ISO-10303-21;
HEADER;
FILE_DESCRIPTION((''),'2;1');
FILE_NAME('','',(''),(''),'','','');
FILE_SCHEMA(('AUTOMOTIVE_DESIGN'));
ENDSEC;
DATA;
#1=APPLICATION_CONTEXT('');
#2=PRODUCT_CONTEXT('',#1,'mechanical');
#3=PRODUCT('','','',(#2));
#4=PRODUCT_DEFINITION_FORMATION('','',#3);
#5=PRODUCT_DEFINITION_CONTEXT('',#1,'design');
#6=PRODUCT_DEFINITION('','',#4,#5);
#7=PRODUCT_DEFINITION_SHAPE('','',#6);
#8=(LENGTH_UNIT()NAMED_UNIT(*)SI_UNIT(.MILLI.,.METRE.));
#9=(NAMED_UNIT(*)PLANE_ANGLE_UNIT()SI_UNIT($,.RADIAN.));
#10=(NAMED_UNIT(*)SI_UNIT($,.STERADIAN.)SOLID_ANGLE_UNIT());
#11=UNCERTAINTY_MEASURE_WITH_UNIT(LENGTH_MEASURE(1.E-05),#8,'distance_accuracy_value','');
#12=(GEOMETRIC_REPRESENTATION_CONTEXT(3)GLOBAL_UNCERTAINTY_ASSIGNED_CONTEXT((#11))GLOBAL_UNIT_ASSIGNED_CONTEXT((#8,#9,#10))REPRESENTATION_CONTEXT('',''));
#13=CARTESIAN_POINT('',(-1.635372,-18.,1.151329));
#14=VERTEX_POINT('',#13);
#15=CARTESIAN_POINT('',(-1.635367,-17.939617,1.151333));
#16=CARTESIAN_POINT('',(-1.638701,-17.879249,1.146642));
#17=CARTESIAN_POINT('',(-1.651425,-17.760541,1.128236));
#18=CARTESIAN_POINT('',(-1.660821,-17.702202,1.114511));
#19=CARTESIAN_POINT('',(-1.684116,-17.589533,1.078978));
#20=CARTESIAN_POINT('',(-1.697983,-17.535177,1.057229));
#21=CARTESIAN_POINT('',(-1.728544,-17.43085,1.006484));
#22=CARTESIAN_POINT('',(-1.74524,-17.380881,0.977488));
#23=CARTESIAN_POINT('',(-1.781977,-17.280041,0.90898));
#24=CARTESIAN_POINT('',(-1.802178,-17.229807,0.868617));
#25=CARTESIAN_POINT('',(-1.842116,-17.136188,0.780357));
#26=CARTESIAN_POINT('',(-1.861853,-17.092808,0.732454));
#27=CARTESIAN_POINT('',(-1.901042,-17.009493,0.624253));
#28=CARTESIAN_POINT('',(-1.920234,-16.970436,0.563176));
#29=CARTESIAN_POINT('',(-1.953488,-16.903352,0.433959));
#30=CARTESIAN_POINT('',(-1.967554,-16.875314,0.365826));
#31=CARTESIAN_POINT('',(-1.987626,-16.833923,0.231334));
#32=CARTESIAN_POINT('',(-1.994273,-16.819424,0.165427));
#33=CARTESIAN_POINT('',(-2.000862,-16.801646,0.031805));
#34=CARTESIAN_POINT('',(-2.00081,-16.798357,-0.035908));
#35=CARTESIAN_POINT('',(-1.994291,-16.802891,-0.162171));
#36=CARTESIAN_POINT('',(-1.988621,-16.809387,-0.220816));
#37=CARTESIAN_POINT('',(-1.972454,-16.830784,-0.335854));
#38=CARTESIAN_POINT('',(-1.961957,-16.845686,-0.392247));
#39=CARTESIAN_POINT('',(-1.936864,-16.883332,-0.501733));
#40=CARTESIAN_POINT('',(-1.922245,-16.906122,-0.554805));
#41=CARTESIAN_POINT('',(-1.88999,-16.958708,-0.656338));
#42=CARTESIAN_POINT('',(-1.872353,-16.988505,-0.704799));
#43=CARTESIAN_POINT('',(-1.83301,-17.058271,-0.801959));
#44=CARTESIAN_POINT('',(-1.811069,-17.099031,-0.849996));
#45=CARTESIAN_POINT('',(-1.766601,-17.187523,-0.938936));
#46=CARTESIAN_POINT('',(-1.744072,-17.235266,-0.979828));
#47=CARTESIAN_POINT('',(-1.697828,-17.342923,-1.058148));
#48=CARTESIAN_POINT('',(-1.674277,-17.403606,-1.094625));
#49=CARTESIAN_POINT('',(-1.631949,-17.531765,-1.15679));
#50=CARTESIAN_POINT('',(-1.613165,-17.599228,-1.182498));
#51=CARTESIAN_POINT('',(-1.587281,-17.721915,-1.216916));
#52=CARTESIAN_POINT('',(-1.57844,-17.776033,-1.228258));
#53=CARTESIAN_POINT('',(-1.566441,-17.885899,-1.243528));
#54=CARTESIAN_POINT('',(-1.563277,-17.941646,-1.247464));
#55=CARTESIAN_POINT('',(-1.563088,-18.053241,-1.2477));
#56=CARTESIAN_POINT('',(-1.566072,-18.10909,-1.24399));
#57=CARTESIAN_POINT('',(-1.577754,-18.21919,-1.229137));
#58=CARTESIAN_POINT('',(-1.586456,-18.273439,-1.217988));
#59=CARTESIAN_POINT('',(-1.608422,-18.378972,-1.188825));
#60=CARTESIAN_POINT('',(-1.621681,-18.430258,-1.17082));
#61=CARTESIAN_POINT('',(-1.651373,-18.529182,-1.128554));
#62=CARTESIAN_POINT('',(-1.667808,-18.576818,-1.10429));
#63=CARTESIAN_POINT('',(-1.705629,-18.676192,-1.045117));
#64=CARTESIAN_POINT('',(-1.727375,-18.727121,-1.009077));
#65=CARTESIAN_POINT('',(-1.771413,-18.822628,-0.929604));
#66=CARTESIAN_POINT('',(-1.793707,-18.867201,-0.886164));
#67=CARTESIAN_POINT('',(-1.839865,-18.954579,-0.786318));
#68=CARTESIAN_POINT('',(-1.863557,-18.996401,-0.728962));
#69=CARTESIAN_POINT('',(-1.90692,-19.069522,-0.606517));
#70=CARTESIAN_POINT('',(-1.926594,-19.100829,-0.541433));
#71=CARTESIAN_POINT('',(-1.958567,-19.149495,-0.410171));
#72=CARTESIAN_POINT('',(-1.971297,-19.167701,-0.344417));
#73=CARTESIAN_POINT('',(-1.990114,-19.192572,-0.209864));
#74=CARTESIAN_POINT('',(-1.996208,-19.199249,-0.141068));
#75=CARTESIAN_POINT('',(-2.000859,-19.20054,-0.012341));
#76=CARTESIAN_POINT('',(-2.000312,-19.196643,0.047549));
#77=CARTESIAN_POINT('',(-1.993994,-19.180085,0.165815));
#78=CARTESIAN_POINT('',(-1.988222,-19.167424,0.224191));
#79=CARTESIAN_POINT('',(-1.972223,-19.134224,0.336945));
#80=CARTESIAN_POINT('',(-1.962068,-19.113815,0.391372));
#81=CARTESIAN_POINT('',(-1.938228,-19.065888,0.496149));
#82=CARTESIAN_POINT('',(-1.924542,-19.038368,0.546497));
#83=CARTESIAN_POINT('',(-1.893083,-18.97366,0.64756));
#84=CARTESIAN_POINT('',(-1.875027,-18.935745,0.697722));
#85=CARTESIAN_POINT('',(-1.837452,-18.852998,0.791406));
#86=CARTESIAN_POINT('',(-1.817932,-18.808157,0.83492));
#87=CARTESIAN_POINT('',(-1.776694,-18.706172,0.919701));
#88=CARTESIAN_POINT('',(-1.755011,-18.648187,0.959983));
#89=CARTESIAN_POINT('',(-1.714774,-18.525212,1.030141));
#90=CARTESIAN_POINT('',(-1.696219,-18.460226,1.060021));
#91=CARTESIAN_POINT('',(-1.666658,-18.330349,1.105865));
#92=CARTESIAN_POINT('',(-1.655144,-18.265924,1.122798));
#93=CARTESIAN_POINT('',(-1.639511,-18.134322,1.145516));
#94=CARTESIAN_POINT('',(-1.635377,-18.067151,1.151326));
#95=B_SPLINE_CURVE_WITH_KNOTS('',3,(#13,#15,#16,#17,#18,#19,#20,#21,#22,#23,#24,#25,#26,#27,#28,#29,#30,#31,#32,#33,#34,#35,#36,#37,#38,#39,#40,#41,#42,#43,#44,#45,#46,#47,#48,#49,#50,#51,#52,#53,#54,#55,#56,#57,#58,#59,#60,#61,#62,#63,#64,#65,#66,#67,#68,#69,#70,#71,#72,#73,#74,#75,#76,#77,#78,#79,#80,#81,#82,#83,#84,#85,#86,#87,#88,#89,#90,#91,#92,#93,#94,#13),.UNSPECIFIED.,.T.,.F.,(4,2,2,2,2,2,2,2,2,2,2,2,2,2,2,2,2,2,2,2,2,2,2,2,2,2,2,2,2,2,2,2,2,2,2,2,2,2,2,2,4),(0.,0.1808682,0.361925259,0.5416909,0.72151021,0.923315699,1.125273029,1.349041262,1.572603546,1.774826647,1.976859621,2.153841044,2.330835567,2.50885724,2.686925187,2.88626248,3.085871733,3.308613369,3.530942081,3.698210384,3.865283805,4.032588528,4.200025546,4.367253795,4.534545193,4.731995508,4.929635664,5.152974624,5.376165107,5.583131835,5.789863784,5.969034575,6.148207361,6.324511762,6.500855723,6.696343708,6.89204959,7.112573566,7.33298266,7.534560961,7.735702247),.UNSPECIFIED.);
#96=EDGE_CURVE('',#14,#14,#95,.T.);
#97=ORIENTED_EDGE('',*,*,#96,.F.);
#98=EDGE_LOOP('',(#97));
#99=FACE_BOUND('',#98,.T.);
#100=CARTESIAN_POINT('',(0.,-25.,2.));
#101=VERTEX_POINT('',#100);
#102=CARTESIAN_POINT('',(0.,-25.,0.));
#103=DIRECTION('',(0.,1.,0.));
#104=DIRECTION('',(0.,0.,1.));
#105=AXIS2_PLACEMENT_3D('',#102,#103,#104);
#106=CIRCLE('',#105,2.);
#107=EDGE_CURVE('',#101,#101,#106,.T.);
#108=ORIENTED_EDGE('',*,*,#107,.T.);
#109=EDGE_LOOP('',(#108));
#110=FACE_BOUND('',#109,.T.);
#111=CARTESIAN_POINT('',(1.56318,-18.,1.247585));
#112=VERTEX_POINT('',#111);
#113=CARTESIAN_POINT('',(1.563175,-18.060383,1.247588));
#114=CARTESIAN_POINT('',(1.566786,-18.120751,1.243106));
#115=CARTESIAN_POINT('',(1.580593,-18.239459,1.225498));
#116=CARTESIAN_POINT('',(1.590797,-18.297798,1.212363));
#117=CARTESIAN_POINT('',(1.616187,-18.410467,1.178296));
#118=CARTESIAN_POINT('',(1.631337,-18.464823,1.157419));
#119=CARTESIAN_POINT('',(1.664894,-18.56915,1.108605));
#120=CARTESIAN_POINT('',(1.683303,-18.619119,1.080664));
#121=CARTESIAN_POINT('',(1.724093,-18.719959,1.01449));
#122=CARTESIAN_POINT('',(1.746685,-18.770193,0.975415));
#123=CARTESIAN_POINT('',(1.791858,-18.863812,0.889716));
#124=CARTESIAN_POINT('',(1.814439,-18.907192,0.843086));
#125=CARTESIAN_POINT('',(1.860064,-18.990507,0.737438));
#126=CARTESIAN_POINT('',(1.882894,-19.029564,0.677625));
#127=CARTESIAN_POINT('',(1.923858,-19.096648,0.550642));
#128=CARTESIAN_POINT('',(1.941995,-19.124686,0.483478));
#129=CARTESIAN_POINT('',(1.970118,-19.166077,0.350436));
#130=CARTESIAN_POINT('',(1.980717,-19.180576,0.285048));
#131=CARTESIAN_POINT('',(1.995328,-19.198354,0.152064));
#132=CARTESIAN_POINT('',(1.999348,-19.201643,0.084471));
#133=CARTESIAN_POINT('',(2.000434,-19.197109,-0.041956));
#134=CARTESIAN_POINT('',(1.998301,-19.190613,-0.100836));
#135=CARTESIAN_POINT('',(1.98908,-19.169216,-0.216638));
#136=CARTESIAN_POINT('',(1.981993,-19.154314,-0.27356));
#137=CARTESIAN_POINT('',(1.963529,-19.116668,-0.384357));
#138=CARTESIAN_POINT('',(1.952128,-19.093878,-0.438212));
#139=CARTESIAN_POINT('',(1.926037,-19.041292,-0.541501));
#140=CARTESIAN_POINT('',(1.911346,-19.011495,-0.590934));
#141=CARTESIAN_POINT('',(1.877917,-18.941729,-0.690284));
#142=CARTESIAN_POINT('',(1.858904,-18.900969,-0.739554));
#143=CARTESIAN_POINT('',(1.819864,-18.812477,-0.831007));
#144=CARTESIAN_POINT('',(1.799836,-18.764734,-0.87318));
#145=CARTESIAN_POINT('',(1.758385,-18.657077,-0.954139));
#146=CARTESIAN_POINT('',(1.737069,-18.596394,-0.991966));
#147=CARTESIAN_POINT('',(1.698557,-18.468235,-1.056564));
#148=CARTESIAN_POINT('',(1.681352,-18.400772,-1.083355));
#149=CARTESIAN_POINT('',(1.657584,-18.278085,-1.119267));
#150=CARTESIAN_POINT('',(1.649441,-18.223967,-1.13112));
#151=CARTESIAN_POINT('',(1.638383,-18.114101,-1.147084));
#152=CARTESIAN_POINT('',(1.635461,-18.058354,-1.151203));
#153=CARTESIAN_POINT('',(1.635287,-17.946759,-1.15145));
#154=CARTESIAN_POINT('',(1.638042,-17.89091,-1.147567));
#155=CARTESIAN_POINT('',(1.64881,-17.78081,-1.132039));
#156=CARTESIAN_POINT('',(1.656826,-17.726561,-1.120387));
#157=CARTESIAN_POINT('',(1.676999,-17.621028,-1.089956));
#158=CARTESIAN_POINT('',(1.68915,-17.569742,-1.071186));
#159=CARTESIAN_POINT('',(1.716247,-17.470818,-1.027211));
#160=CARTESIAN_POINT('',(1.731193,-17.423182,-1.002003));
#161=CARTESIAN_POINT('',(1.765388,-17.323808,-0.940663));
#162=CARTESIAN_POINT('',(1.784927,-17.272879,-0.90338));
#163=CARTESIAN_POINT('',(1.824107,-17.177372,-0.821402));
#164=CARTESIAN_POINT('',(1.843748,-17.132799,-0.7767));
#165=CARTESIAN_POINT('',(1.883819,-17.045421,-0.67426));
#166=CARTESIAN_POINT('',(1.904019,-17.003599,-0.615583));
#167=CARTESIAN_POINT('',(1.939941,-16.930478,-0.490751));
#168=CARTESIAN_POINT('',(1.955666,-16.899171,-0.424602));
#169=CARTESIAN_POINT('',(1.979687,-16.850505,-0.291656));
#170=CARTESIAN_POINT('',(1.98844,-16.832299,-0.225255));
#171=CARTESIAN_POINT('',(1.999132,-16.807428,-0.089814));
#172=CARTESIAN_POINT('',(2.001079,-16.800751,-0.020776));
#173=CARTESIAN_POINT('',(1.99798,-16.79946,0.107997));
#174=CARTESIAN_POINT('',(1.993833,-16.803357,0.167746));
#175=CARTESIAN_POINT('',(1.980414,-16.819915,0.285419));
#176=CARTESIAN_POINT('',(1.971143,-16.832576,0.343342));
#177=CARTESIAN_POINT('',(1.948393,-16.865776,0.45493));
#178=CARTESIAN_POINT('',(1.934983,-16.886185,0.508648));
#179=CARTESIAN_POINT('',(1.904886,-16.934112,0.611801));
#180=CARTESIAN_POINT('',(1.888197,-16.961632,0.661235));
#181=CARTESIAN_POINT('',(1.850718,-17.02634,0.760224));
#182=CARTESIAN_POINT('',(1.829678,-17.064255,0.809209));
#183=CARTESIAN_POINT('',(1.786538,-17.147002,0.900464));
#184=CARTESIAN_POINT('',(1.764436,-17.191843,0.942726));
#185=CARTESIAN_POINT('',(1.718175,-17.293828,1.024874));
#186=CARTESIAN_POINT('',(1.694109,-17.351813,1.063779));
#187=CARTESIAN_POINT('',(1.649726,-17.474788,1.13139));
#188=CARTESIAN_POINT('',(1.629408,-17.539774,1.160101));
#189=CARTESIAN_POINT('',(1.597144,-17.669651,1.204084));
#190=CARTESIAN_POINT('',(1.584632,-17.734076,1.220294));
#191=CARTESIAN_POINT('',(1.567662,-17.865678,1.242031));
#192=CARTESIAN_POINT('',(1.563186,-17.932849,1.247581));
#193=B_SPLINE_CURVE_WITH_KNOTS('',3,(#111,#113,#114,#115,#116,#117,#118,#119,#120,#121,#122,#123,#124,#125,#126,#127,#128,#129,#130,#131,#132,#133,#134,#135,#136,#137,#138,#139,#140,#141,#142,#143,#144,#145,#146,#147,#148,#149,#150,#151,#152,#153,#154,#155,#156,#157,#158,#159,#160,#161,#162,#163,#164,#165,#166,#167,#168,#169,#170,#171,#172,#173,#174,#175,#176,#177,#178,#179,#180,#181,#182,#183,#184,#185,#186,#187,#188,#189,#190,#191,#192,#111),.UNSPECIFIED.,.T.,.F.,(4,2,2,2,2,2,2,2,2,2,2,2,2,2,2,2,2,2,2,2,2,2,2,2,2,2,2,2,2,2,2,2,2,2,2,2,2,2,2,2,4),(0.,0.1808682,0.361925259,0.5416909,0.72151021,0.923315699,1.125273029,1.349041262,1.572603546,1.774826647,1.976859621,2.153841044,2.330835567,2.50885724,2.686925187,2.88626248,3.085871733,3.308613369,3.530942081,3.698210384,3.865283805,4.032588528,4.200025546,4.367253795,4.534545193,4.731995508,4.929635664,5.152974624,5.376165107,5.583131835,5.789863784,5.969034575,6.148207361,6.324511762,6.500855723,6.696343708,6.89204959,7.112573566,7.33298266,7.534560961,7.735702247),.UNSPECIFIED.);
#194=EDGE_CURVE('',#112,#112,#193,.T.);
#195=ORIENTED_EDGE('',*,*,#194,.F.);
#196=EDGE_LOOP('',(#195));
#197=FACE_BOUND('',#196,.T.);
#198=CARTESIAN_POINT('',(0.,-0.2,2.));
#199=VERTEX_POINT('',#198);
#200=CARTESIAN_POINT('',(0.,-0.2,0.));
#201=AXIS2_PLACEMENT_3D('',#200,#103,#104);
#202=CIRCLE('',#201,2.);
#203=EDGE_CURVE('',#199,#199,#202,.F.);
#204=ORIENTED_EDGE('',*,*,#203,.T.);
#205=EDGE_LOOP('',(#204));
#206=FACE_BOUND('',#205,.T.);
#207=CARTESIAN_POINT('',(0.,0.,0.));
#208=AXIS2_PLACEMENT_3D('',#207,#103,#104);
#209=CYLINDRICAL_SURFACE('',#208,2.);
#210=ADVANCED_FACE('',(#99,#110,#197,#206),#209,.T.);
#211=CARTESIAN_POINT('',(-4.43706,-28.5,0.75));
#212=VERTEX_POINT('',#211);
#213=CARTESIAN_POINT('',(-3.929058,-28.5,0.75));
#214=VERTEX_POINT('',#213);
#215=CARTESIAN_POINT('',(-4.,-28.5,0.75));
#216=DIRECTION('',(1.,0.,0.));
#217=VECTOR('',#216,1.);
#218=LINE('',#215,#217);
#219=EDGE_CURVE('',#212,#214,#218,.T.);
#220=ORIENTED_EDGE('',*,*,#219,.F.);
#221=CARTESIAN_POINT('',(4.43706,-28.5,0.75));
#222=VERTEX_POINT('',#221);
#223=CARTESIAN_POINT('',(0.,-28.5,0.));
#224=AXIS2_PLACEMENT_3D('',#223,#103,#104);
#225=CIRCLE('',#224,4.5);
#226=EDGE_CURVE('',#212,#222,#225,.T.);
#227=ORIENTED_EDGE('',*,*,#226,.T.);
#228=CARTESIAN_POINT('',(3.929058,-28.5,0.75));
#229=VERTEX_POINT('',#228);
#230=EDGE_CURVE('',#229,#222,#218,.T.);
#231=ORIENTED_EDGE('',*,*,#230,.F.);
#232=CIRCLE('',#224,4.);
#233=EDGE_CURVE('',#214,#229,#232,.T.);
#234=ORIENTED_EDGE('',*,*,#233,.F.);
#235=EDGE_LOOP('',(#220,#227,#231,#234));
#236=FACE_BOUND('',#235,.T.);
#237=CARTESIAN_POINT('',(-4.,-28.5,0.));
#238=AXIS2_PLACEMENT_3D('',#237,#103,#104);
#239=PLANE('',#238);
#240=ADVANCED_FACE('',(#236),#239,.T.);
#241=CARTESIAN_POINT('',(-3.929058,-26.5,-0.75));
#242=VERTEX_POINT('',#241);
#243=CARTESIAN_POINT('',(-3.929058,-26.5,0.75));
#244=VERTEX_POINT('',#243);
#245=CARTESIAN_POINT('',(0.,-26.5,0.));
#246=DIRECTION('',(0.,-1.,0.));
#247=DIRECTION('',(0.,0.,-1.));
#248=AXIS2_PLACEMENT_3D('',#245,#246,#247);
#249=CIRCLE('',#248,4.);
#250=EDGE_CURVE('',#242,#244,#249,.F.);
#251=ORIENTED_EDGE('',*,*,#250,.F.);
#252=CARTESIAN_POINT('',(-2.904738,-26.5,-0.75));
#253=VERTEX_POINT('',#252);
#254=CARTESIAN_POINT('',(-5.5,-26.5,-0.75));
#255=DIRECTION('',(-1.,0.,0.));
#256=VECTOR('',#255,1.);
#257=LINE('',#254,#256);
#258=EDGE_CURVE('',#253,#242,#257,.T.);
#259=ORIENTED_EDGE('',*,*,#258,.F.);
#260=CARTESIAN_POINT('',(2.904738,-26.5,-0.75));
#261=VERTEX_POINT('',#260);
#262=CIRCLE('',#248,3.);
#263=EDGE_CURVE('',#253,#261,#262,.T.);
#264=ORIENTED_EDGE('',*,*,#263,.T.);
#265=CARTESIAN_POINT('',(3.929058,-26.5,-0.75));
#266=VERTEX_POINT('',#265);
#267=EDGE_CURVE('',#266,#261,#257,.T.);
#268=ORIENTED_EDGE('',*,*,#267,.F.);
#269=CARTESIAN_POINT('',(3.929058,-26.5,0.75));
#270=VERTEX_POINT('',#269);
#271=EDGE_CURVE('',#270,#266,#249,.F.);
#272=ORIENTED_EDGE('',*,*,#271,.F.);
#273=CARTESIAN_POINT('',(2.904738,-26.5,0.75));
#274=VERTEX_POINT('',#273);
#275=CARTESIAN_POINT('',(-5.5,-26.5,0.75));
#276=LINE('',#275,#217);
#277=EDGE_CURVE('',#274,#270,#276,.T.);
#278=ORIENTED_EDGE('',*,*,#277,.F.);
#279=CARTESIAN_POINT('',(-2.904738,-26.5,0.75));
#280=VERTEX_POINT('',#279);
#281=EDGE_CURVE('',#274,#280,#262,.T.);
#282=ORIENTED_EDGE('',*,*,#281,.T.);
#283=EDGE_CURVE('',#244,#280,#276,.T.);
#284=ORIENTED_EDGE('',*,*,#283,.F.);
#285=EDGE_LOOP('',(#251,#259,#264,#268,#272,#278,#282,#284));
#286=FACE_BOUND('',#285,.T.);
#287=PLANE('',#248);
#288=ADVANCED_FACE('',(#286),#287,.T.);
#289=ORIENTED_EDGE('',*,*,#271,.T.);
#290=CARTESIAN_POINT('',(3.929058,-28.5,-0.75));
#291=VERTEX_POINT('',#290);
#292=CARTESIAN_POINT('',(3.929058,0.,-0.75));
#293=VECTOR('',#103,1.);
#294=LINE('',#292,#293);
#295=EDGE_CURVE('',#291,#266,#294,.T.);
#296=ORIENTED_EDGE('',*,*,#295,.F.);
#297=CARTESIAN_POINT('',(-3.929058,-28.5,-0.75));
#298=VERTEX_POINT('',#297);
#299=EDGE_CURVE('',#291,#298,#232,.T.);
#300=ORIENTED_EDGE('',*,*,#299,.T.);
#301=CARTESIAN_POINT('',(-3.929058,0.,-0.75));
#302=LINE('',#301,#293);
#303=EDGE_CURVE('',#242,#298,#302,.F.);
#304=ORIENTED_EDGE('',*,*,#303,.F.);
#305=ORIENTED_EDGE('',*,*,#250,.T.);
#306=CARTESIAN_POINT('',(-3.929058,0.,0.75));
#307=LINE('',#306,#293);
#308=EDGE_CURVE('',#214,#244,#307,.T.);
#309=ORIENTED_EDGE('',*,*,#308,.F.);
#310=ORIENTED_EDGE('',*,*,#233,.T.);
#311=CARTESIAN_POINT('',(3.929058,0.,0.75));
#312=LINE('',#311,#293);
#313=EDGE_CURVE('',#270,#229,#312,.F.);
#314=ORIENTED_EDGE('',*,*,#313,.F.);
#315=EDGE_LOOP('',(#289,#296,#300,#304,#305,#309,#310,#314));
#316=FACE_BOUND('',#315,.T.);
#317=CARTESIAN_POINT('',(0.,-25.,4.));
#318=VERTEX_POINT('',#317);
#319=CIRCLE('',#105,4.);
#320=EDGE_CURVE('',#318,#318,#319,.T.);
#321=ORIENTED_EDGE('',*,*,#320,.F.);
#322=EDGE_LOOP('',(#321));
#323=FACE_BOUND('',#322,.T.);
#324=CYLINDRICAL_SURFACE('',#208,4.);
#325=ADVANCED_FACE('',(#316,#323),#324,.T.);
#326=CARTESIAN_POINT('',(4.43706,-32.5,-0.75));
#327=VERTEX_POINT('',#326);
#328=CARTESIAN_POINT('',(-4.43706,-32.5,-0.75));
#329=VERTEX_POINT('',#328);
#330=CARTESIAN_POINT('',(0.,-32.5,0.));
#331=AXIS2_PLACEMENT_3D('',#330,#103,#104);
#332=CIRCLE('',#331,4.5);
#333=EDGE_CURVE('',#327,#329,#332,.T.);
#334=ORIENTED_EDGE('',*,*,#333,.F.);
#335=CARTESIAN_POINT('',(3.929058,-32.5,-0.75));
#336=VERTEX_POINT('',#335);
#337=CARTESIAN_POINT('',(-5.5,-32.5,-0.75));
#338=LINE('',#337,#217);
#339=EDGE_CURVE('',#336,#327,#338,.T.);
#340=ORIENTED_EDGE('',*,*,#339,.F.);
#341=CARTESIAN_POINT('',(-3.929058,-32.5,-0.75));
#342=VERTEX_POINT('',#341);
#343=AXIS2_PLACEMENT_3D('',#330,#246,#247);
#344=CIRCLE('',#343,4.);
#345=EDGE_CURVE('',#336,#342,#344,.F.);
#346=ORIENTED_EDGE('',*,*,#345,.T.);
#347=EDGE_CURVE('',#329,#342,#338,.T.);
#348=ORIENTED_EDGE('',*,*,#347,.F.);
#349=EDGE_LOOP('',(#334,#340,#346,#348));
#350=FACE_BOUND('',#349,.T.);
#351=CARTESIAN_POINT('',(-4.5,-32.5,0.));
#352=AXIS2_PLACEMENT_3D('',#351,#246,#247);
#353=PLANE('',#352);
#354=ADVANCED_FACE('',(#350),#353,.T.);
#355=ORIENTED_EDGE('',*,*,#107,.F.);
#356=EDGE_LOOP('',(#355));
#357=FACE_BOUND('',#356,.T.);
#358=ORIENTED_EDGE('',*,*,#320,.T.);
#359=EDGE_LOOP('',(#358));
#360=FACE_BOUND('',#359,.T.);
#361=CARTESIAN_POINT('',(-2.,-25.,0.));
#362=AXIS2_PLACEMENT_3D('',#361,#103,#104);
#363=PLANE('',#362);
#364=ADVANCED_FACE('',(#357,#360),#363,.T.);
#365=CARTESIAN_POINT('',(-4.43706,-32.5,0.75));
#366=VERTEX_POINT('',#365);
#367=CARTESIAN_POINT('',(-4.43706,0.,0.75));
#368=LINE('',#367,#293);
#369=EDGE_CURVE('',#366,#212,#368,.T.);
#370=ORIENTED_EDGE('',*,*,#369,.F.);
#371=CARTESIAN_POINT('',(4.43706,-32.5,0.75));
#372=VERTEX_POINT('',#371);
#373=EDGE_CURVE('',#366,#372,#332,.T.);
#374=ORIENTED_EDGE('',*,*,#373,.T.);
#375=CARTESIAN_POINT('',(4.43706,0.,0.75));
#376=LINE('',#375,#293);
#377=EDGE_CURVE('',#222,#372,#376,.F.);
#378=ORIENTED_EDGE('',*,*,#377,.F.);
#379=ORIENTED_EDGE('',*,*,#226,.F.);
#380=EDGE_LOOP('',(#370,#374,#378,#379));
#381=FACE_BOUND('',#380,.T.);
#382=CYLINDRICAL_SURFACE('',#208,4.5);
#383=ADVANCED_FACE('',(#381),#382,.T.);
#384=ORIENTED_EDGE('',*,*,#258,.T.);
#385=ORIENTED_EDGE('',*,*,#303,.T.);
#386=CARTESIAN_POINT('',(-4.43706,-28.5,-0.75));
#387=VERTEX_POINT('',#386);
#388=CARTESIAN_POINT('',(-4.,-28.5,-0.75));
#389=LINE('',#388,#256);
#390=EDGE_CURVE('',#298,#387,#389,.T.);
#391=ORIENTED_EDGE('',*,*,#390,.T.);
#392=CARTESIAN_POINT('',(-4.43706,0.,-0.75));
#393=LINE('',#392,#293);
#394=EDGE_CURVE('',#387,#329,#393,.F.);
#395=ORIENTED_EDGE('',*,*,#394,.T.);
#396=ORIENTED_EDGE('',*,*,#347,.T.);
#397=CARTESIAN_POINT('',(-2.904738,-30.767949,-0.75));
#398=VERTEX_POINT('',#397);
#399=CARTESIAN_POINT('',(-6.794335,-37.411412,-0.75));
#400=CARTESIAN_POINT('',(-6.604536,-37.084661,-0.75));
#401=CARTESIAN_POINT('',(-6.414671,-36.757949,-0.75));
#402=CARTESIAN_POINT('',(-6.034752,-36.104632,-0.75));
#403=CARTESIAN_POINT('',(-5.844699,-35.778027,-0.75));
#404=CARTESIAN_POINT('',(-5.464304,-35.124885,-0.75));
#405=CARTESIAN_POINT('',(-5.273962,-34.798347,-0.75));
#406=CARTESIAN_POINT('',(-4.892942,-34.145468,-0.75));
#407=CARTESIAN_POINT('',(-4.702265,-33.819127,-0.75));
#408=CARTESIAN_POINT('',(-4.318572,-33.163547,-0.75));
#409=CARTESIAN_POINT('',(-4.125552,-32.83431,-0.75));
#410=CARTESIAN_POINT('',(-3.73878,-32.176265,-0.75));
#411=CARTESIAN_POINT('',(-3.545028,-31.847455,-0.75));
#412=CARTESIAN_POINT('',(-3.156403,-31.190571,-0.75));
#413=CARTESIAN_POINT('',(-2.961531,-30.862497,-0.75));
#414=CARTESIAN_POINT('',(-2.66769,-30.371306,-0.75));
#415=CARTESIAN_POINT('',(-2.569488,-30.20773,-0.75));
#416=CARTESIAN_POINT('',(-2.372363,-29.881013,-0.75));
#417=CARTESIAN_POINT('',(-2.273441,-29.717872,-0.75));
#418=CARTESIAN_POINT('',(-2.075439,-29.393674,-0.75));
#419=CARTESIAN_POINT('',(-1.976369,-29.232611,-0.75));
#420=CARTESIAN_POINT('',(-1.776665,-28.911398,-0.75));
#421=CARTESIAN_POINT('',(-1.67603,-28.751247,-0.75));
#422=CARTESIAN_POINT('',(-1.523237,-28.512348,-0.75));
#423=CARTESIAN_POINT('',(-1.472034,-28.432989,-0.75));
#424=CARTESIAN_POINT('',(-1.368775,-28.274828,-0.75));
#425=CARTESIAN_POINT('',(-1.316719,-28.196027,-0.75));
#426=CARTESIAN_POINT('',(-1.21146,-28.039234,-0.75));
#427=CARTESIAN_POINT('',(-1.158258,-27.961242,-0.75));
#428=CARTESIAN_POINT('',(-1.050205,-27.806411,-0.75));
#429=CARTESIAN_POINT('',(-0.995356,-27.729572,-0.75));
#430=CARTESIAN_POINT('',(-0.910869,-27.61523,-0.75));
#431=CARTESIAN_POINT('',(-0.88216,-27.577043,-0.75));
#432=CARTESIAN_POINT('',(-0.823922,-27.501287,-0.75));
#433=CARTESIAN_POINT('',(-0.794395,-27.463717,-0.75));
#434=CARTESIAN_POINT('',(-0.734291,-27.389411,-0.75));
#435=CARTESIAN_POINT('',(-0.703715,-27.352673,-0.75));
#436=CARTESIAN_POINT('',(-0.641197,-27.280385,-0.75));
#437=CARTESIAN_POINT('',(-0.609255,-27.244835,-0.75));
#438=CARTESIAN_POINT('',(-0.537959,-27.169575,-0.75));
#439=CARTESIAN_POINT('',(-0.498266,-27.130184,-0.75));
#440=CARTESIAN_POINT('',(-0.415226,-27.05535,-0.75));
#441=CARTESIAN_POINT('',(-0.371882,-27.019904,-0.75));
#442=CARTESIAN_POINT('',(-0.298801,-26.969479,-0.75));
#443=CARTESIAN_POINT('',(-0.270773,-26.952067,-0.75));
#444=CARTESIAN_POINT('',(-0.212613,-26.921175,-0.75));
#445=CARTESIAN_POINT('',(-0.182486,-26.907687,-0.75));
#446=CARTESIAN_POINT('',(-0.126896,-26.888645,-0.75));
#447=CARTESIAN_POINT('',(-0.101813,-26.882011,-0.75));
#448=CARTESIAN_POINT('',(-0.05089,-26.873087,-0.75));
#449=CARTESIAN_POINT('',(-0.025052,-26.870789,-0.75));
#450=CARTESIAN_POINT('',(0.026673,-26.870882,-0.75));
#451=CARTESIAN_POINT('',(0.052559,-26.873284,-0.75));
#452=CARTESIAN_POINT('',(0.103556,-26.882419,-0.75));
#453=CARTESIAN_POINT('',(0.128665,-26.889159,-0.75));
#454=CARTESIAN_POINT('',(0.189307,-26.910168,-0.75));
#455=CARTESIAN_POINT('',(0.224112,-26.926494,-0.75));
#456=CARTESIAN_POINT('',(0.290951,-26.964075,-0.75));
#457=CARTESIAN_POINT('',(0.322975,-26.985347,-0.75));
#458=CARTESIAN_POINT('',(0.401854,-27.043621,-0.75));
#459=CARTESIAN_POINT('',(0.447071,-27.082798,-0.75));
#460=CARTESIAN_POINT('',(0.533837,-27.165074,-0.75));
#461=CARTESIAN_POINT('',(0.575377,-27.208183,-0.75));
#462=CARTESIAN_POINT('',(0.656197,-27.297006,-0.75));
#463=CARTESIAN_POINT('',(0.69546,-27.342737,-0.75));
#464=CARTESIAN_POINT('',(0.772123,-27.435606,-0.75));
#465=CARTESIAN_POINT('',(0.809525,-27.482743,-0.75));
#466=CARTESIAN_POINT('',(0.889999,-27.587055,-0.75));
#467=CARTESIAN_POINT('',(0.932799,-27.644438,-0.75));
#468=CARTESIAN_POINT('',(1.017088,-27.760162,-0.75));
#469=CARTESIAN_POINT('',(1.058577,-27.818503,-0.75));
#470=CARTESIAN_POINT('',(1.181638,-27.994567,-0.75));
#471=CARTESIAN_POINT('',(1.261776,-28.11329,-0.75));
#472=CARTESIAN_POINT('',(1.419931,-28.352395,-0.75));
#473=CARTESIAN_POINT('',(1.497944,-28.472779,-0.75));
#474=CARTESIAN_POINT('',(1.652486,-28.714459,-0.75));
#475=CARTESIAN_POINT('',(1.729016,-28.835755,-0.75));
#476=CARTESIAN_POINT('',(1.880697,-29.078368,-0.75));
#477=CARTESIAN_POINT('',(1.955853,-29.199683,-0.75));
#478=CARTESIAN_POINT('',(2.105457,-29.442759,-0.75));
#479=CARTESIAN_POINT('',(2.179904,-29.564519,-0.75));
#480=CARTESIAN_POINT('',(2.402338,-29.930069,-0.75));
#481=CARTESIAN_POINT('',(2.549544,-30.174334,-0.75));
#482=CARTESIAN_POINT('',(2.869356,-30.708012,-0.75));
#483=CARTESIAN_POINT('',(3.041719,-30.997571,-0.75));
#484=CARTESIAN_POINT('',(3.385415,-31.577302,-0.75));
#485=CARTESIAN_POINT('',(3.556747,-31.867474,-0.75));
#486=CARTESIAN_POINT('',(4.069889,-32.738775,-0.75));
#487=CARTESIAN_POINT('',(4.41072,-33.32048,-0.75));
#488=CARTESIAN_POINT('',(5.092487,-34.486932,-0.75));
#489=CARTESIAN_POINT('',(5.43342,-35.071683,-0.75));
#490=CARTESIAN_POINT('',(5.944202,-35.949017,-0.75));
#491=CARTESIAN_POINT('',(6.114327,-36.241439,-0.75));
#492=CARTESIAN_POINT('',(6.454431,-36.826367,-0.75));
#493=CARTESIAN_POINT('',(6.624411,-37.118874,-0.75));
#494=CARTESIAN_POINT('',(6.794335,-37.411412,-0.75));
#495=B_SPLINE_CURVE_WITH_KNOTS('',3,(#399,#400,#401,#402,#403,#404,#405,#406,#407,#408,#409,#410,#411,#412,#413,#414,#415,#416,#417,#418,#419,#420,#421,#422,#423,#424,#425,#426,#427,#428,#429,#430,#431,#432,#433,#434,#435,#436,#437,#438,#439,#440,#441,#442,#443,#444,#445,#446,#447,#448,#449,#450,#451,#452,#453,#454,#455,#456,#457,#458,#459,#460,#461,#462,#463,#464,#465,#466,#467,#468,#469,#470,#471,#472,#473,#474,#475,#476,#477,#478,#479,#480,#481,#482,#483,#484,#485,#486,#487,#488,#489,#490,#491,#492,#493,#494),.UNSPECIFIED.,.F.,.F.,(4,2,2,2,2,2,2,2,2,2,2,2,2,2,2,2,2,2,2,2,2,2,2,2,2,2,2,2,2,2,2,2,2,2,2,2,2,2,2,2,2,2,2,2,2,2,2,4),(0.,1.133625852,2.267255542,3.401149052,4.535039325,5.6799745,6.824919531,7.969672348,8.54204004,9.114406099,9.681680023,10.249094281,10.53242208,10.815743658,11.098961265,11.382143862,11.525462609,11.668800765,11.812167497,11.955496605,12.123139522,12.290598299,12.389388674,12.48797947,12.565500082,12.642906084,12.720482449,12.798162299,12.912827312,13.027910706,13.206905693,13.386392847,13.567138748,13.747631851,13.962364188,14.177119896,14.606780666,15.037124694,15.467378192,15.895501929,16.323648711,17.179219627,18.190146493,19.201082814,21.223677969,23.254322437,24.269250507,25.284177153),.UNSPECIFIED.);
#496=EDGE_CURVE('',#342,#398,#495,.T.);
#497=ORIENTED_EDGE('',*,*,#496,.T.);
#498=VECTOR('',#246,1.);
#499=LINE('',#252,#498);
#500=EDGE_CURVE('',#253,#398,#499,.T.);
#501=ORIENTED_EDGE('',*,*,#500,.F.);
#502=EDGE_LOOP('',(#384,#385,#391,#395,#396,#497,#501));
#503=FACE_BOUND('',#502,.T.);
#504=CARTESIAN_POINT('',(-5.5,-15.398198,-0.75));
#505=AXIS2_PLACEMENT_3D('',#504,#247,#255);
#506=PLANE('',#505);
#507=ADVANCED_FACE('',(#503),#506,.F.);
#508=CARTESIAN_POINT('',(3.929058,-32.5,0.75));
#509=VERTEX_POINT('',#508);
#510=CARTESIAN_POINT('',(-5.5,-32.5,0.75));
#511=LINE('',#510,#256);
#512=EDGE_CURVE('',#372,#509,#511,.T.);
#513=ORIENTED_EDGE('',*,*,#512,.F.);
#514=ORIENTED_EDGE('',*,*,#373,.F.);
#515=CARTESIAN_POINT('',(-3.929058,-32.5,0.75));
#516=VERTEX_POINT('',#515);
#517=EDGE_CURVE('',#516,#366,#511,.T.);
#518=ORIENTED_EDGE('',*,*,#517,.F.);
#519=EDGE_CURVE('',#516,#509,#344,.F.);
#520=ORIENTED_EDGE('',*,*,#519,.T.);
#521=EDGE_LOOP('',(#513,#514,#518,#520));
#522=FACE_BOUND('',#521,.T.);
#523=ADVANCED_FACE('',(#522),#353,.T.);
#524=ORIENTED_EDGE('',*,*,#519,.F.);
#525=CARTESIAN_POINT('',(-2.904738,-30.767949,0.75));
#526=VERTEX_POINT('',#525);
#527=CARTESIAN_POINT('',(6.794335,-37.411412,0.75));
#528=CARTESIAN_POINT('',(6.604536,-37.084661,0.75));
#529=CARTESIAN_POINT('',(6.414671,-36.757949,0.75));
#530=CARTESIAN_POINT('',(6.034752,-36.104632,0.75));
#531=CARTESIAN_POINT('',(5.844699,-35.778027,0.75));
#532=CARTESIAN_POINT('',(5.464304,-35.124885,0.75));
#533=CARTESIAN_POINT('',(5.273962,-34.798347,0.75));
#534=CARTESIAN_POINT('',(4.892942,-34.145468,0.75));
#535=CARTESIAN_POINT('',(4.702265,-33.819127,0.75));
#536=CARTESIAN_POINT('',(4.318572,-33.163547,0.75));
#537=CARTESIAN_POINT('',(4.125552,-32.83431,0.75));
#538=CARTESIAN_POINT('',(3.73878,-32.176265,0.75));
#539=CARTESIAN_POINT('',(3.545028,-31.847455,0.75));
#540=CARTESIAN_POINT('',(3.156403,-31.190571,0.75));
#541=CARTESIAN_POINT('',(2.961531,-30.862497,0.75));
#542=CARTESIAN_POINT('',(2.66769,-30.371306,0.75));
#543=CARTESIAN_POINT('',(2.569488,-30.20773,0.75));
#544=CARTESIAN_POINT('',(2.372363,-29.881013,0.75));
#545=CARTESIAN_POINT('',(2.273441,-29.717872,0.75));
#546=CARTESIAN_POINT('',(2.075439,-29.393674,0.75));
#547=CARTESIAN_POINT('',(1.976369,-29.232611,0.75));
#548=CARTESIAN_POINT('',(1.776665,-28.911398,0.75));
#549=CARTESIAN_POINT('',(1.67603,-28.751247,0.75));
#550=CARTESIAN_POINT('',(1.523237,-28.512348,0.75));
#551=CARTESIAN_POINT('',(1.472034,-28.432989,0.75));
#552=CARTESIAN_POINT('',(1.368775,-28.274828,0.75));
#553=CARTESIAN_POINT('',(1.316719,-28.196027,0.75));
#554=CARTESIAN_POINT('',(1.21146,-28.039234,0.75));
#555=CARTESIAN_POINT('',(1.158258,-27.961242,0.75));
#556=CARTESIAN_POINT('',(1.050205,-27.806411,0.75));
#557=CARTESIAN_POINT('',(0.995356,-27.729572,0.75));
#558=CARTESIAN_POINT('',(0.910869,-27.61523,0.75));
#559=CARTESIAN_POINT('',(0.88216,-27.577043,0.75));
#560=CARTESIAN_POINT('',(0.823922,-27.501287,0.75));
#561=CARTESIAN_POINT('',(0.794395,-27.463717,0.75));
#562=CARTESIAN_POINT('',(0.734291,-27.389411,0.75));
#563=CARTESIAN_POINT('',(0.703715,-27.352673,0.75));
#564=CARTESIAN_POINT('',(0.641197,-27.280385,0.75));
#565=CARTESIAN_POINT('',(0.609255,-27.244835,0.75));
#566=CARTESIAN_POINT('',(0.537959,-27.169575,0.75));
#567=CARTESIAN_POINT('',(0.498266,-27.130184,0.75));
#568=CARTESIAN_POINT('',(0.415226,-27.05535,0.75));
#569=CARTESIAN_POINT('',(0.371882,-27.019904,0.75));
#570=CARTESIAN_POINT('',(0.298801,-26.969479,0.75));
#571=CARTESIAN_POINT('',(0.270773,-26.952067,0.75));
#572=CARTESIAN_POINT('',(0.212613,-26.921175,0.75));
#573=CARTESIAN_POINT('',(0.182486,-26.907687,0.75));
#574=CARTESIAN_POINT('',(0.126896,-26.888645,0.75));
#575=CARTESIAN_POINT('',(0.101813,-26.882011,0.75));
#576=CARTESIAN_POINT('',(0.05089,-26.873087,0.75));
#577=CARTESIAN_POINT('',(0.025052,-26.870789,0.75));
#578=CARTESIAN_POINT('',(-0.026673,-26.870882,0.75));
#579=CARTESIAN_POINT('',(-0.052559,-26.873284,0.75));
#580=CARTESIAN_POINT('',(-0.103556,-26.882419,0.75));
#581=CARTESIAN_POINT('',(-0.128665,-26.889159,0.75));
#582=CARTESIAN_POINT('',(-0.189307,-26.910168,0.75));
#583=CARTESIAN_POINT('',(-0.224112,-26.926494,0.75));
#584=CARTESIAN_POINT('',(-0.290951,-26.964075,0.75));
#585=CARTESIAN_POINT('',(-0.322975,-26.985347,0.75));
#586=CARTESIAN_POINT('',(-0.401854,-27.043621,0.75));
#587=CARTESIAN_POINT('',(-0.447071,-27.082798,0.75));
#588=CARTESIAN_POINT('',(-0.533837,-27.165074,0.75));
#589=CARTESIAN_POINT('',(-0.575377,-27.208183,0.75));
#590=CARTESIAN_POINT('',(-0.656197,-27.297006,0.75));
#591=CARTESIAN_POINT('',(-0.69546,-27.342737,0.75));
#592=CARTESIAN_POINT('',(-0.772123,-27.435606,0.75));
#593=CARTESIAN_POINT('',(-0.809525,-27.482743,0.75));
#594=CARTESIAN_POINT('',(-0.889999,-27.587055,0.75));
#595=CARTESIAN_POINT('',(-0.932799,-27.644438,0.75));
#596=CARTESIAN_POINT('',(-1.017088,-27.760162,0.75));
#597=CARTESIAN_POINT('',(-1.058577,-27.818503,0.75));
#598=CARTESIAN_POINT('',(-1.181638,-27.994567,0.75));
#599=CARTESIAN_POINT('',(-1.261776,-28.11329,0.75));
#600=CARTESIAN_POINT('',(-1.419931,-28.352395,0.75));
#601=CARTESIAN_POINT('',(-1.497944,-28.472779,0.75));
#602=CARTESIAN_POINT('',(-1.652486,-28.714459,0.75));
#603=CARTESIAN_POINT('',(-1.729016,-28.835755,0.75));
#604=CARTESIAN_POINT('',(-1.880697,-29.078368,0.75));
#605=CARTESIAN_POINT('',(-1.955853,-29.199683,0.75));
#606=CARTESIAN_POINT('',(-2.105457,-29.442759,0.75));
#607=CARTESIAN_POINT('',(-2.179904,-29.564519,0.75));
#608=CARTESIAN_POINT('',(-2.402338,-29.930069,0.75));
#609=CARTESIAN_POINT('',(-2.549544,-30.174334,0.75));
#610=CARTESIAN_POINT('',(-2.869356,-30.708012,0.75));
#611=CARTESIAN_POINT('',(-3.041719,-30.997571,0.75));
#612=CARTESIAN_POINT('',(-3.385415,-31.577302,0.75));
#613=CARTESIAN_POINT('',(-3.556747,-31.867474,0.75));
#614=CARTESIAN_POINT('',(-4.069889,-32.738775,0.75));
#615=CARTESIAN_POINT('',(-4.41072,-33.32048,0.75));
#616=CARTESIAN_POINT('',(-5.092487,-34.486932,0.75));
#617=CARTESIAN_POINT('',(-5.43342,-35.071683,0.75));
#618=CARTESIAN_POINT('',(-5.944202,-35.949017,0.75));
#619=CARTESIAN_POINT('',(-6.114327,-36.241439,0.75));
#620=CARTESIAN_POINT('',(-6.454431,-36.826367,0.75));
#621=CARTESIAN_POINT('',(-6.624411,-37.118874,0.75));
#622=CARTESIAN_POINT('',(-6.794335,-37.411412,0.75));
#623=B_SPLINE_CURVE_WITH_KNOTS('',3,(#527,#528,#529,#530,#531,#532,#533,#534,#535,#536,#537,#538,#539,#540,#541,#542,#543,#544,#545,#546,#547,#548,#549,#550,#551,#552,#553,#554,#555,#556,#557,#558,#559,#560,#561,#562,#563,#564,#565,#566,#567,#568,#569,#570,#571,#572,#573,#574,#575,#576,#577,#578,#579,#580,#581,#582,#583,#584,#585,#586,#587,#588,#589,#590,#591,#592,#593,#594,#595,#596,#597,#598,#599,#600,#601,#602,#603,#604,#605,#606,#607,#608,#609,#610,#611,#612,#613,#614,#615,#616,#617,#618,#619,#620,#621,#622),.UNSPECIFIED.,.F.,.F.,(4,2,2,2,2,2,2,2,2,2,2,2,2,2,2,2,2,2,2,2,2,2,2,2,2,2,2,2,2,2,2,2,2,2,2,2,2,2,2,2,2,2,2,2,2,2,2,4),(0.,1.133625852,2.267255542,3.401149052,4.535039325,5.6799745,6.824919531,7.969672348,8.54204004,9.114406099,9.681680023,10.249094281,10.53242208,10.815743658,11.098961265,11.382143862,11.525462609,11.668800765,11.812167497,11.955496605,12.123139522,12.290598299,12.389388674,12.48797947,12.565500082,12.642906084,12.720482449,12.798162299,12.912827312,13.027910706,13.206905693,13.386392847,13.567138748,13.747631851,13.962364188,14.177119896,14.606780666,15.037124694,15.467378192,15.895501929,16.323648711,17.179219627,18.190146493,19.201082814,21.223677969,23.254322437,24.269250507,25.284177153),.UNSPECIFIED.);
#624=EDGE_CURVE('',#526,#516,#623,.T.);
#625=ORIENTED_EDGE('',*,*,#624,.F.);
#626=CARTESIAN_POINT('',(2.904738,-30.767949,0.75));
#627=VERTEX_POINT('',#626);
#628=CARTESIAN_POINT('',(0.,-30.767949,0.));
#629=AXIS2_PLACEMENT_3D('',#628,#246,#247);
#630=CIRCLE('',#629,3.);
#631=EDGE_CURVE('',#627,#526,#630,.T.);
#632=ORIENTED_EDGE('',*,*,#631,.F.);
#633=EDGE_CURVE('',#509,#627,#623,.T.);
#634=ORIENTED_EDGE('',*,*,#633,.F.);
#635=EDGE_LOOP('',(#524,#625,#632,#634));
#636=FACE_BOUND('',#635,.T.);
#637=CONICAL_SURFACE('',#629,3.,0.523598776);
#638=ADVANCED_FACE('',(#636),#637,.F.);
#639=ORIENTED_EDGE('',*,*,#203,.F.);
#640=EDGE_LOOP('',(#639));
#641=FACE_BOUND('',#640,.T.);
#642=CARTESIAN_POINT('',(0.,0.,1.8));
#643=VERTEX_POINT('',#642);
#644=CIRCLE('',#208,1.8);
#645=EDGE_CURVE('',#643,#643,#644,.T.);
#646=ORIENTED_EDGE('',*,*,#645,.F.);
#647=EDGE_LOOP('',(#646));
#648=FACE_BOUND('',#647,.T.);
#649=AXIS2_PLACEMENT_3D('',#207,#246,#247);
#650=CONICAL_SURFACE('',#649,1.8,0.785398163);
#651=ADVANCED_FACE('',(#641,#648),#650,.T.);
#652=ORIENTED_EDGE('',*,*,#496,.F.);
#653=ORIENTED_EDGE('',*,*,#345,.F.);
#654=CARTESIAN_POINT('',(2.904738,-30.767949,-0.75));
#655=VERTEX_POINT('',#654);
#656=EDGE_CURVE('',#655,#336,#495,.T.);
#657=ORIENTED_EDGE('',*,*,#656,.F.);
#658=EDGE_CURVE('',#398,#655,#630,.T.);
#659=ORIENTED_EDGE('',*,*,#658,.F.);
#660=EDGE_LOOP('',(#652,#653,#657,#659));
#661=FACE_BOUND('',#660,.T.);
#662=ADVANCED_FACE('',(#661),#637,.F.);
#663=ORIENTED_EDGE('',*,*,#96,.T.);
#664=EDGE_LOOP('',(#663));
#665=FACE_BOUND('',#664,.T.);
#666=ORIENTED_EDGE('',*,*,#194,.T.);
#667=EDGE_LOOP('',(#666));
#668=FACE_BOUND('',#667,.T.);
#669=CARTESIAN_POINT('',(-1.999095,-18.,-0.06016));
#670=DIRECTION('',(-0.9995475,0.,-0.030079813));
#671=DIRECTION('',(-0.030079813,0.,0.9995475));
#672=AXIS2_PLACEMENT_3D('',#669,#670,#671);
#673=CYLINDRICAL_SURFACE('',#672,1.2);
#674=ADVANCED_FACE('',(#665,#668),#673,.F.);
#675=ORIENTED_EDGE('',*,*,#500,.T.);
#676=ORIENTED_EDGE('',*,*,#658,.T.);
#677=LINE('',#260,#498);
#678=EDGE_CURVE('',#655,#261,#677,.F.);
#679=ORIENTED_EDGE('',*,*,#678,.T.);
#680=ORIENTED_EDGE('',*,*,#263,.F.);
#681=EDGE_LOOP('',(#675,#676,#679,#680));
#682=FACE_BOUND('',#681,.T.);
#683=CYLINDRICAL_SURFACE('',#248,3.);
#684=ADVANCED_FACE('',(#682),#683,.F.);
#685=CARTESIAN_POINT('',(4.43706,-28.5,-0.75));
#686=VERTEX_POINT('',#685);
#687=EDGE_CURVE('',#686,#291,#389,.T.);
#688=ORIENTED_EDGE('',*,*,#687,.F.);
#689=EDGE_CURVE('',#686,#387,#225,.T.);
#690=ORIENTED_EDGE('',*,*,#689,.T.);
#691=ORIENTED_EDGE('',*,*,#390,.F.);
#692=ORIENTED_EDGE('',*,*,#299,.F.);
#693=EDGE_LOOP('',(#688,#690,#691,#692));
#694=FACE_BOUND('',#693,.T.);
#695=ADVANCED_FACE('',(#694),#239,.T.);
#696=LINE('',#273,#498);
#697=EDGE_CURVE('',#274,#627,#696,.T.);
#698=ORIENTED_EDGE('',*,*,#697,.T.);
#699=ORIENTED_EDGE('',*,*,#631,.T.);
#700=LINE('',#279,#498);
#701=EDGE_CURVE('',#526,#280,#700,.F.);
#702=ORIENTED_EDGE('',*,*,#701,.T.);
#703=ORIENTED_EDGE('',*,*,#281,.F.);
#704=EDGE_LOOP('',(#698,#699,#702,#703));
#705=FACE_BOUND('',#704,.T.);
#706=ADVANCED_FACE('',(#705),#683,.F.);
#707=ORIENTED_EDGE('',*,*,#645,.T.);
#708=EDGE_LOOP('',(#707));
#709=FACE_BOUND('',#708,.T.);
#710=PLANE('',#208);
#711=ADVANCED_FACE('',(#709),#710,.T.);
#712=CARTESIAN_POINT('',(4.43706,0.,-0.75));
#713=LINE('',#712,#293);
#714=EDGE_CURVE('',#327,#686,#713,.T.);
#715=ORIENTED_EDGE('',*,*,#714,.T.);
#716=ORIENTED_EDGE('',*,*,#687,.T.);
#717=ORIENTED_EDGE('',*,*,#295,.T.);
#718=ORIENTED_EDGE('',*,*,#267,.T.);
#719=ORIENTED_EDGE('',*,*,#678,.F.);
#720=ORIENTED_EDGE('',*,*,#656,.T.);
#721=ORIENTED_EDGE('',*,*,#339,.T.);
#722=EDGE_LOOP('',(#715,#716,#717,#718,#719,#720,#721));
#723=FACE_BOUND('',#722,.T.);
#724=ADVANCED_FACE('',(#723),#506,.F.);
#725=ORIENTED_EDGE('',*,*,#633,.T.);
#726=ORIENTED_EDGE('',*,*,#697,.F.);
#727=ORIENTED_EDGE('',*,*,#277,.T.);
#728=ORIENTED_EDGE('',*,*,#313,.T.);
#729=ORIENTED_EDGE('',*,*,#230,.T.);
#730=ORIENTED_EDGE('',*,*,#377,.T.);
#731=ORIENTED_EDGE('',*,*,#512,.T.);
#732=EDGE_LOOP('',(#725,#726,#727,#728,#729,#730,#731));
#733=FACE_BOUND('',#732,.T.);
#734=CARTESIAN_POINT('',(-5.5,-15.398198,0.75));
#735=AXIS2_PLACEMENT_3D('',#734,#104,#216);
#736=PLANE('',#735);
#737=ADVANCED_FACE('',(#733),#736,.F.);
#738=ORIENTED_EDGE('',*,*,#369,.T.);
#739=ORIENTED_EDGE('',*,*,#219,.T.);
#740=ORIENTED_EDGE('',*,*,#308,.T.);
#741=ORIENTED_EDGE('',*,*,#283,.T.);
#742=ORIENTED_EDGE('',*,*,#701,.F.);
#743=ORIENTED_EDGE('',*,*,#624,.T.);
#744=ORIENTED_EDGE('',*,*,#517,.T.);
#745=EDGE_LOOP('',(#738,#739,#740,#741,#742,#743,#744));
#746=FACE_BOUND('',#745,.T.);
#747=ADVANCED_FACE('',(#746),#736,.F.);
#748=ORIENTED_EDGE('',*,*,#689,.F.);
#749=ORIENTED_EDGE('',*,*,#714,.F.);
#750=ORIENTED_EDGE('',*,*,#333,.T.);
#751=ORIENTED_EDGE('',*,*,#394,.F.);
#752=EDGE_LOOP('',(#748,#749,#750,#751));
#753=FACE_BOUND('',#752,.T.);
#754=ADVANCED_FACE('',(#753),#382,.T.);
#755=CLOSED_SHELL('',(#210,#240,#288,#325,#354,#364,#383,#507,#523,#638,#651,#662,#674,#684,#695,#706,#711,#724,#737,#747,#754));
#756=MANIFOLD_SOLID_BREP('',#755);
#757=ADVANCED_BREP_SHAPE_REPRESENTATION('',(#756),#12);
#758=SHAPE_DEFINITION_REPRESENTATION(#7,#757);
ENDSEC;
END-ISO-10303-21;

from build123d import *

# Parameters (mm, degrees)
SKETCH_2_R             = 3
CUT_EXTRUDE_1_DEPTH    = 6
CHAMFER_1_SIZE         = 1
CHAMFER_1_SIZE2        = 1.732050808
SKETCH_3_W             = 11
SKETCH_3_H             = 1.5
CUT_EXTRUDE_3_DEPTH    = 6
CHAMFER_2_SIZE         = 0.2
HOLE_WIZARD_M2_1_D     = 2.4
HOLE_WIZARD_M2_1_DEPTH = 10
HOLE_WIZARD_M2_1_TIP   = 0.721032743


with BuildPart() as part:
    # 草图1 → 旋转1 (revolve)
    with BuildSketch(Plane.XY, mode=Mode.PRIVATE) as revolve_1_sk:
        Polygon((0, 0), (-2, 0), (-2, -25), (-4, -25), (-4, -28.5), (-4.5, -28.5), (-4.5, -32.5), (0, -32.5), align=None)
    revolve(revolve_1_sk.sketch.rotate(Axis((0, 0, 0), (0, -1, 0)), 270), axis=Axis((0, 0, 0), (0, -1, 0)))

    # 草图2 → 切除-拉伸1 (cut)
    with BuildSketch(Plane.XZ.offset(32.5)):
        with Locations(Location((0, 0, 0), (0, 0, 270))):
            Circle(SKETCH_2_R)
    extrude(amount=-CUT_EXTRUDE_1_DEPTH, mode=Mode.SUBTRACT)

    # 倒角1
    chamfer_1_edges = [part.edges().sort_by_distance(p)[0] for p in [
        (0, -32.5, 3),
    ]]
    chamfer_1_side = [part.faces().sort_by_distance(p)[0] for p in [
        (0, -32.5, -4.372720779),
    ]]
    chamfer(chamfer_1_edges, length=CHAMFER_1_SIZE, length2=CHAMFER_1_SIZE2, reference=chamfer_1_side[0])

    # 草图3 → 切除-拉伸3 (cut)
    with BuildSketch(Plane.XZ.offset(32.5)):
        Rectangle(SKETCH_3_W, SKETCH_3_H)
    extrude(amount=-CUT_EXTRUDE_3_DEPTH, mode=Mode.SUBTRACT)

    # 倒角2
    chamfer_2_edges = [part.edges().sort_by_distance(p)[0] for p in [
        (0, 0, -2),
    ]]
    chamfer(chamfer_2_edges, length=CHAMFER_2_SIZE)

    # M2 间隙孔1
    with Locations(Plane(origin=(-1.999095, -18, -0.060159626), x_dir=(0.030079813167, 0, -0.999547500042), z_dir=(-0.999547500042, 0, -0.030079813167))):
        with Locations((0, 0)):
            Hole(HOLE_WIZARD_M2_1_D / 2, depth=HOLE_WIZARD_M2_1_DEPTH)
            with Locations((0, 0, -(HOLE_WIZARD_M2_1_DEPTH + HOLE_WIZARD_M2_1_TIP / 2))):  # 118° drill point
                Cone(0, HOLE_WIZARD_M2_1_D / 2, HOLE_WIZARD_M2_1_TIP, mode=Mode.SUBTRACT)


solid = part.part
